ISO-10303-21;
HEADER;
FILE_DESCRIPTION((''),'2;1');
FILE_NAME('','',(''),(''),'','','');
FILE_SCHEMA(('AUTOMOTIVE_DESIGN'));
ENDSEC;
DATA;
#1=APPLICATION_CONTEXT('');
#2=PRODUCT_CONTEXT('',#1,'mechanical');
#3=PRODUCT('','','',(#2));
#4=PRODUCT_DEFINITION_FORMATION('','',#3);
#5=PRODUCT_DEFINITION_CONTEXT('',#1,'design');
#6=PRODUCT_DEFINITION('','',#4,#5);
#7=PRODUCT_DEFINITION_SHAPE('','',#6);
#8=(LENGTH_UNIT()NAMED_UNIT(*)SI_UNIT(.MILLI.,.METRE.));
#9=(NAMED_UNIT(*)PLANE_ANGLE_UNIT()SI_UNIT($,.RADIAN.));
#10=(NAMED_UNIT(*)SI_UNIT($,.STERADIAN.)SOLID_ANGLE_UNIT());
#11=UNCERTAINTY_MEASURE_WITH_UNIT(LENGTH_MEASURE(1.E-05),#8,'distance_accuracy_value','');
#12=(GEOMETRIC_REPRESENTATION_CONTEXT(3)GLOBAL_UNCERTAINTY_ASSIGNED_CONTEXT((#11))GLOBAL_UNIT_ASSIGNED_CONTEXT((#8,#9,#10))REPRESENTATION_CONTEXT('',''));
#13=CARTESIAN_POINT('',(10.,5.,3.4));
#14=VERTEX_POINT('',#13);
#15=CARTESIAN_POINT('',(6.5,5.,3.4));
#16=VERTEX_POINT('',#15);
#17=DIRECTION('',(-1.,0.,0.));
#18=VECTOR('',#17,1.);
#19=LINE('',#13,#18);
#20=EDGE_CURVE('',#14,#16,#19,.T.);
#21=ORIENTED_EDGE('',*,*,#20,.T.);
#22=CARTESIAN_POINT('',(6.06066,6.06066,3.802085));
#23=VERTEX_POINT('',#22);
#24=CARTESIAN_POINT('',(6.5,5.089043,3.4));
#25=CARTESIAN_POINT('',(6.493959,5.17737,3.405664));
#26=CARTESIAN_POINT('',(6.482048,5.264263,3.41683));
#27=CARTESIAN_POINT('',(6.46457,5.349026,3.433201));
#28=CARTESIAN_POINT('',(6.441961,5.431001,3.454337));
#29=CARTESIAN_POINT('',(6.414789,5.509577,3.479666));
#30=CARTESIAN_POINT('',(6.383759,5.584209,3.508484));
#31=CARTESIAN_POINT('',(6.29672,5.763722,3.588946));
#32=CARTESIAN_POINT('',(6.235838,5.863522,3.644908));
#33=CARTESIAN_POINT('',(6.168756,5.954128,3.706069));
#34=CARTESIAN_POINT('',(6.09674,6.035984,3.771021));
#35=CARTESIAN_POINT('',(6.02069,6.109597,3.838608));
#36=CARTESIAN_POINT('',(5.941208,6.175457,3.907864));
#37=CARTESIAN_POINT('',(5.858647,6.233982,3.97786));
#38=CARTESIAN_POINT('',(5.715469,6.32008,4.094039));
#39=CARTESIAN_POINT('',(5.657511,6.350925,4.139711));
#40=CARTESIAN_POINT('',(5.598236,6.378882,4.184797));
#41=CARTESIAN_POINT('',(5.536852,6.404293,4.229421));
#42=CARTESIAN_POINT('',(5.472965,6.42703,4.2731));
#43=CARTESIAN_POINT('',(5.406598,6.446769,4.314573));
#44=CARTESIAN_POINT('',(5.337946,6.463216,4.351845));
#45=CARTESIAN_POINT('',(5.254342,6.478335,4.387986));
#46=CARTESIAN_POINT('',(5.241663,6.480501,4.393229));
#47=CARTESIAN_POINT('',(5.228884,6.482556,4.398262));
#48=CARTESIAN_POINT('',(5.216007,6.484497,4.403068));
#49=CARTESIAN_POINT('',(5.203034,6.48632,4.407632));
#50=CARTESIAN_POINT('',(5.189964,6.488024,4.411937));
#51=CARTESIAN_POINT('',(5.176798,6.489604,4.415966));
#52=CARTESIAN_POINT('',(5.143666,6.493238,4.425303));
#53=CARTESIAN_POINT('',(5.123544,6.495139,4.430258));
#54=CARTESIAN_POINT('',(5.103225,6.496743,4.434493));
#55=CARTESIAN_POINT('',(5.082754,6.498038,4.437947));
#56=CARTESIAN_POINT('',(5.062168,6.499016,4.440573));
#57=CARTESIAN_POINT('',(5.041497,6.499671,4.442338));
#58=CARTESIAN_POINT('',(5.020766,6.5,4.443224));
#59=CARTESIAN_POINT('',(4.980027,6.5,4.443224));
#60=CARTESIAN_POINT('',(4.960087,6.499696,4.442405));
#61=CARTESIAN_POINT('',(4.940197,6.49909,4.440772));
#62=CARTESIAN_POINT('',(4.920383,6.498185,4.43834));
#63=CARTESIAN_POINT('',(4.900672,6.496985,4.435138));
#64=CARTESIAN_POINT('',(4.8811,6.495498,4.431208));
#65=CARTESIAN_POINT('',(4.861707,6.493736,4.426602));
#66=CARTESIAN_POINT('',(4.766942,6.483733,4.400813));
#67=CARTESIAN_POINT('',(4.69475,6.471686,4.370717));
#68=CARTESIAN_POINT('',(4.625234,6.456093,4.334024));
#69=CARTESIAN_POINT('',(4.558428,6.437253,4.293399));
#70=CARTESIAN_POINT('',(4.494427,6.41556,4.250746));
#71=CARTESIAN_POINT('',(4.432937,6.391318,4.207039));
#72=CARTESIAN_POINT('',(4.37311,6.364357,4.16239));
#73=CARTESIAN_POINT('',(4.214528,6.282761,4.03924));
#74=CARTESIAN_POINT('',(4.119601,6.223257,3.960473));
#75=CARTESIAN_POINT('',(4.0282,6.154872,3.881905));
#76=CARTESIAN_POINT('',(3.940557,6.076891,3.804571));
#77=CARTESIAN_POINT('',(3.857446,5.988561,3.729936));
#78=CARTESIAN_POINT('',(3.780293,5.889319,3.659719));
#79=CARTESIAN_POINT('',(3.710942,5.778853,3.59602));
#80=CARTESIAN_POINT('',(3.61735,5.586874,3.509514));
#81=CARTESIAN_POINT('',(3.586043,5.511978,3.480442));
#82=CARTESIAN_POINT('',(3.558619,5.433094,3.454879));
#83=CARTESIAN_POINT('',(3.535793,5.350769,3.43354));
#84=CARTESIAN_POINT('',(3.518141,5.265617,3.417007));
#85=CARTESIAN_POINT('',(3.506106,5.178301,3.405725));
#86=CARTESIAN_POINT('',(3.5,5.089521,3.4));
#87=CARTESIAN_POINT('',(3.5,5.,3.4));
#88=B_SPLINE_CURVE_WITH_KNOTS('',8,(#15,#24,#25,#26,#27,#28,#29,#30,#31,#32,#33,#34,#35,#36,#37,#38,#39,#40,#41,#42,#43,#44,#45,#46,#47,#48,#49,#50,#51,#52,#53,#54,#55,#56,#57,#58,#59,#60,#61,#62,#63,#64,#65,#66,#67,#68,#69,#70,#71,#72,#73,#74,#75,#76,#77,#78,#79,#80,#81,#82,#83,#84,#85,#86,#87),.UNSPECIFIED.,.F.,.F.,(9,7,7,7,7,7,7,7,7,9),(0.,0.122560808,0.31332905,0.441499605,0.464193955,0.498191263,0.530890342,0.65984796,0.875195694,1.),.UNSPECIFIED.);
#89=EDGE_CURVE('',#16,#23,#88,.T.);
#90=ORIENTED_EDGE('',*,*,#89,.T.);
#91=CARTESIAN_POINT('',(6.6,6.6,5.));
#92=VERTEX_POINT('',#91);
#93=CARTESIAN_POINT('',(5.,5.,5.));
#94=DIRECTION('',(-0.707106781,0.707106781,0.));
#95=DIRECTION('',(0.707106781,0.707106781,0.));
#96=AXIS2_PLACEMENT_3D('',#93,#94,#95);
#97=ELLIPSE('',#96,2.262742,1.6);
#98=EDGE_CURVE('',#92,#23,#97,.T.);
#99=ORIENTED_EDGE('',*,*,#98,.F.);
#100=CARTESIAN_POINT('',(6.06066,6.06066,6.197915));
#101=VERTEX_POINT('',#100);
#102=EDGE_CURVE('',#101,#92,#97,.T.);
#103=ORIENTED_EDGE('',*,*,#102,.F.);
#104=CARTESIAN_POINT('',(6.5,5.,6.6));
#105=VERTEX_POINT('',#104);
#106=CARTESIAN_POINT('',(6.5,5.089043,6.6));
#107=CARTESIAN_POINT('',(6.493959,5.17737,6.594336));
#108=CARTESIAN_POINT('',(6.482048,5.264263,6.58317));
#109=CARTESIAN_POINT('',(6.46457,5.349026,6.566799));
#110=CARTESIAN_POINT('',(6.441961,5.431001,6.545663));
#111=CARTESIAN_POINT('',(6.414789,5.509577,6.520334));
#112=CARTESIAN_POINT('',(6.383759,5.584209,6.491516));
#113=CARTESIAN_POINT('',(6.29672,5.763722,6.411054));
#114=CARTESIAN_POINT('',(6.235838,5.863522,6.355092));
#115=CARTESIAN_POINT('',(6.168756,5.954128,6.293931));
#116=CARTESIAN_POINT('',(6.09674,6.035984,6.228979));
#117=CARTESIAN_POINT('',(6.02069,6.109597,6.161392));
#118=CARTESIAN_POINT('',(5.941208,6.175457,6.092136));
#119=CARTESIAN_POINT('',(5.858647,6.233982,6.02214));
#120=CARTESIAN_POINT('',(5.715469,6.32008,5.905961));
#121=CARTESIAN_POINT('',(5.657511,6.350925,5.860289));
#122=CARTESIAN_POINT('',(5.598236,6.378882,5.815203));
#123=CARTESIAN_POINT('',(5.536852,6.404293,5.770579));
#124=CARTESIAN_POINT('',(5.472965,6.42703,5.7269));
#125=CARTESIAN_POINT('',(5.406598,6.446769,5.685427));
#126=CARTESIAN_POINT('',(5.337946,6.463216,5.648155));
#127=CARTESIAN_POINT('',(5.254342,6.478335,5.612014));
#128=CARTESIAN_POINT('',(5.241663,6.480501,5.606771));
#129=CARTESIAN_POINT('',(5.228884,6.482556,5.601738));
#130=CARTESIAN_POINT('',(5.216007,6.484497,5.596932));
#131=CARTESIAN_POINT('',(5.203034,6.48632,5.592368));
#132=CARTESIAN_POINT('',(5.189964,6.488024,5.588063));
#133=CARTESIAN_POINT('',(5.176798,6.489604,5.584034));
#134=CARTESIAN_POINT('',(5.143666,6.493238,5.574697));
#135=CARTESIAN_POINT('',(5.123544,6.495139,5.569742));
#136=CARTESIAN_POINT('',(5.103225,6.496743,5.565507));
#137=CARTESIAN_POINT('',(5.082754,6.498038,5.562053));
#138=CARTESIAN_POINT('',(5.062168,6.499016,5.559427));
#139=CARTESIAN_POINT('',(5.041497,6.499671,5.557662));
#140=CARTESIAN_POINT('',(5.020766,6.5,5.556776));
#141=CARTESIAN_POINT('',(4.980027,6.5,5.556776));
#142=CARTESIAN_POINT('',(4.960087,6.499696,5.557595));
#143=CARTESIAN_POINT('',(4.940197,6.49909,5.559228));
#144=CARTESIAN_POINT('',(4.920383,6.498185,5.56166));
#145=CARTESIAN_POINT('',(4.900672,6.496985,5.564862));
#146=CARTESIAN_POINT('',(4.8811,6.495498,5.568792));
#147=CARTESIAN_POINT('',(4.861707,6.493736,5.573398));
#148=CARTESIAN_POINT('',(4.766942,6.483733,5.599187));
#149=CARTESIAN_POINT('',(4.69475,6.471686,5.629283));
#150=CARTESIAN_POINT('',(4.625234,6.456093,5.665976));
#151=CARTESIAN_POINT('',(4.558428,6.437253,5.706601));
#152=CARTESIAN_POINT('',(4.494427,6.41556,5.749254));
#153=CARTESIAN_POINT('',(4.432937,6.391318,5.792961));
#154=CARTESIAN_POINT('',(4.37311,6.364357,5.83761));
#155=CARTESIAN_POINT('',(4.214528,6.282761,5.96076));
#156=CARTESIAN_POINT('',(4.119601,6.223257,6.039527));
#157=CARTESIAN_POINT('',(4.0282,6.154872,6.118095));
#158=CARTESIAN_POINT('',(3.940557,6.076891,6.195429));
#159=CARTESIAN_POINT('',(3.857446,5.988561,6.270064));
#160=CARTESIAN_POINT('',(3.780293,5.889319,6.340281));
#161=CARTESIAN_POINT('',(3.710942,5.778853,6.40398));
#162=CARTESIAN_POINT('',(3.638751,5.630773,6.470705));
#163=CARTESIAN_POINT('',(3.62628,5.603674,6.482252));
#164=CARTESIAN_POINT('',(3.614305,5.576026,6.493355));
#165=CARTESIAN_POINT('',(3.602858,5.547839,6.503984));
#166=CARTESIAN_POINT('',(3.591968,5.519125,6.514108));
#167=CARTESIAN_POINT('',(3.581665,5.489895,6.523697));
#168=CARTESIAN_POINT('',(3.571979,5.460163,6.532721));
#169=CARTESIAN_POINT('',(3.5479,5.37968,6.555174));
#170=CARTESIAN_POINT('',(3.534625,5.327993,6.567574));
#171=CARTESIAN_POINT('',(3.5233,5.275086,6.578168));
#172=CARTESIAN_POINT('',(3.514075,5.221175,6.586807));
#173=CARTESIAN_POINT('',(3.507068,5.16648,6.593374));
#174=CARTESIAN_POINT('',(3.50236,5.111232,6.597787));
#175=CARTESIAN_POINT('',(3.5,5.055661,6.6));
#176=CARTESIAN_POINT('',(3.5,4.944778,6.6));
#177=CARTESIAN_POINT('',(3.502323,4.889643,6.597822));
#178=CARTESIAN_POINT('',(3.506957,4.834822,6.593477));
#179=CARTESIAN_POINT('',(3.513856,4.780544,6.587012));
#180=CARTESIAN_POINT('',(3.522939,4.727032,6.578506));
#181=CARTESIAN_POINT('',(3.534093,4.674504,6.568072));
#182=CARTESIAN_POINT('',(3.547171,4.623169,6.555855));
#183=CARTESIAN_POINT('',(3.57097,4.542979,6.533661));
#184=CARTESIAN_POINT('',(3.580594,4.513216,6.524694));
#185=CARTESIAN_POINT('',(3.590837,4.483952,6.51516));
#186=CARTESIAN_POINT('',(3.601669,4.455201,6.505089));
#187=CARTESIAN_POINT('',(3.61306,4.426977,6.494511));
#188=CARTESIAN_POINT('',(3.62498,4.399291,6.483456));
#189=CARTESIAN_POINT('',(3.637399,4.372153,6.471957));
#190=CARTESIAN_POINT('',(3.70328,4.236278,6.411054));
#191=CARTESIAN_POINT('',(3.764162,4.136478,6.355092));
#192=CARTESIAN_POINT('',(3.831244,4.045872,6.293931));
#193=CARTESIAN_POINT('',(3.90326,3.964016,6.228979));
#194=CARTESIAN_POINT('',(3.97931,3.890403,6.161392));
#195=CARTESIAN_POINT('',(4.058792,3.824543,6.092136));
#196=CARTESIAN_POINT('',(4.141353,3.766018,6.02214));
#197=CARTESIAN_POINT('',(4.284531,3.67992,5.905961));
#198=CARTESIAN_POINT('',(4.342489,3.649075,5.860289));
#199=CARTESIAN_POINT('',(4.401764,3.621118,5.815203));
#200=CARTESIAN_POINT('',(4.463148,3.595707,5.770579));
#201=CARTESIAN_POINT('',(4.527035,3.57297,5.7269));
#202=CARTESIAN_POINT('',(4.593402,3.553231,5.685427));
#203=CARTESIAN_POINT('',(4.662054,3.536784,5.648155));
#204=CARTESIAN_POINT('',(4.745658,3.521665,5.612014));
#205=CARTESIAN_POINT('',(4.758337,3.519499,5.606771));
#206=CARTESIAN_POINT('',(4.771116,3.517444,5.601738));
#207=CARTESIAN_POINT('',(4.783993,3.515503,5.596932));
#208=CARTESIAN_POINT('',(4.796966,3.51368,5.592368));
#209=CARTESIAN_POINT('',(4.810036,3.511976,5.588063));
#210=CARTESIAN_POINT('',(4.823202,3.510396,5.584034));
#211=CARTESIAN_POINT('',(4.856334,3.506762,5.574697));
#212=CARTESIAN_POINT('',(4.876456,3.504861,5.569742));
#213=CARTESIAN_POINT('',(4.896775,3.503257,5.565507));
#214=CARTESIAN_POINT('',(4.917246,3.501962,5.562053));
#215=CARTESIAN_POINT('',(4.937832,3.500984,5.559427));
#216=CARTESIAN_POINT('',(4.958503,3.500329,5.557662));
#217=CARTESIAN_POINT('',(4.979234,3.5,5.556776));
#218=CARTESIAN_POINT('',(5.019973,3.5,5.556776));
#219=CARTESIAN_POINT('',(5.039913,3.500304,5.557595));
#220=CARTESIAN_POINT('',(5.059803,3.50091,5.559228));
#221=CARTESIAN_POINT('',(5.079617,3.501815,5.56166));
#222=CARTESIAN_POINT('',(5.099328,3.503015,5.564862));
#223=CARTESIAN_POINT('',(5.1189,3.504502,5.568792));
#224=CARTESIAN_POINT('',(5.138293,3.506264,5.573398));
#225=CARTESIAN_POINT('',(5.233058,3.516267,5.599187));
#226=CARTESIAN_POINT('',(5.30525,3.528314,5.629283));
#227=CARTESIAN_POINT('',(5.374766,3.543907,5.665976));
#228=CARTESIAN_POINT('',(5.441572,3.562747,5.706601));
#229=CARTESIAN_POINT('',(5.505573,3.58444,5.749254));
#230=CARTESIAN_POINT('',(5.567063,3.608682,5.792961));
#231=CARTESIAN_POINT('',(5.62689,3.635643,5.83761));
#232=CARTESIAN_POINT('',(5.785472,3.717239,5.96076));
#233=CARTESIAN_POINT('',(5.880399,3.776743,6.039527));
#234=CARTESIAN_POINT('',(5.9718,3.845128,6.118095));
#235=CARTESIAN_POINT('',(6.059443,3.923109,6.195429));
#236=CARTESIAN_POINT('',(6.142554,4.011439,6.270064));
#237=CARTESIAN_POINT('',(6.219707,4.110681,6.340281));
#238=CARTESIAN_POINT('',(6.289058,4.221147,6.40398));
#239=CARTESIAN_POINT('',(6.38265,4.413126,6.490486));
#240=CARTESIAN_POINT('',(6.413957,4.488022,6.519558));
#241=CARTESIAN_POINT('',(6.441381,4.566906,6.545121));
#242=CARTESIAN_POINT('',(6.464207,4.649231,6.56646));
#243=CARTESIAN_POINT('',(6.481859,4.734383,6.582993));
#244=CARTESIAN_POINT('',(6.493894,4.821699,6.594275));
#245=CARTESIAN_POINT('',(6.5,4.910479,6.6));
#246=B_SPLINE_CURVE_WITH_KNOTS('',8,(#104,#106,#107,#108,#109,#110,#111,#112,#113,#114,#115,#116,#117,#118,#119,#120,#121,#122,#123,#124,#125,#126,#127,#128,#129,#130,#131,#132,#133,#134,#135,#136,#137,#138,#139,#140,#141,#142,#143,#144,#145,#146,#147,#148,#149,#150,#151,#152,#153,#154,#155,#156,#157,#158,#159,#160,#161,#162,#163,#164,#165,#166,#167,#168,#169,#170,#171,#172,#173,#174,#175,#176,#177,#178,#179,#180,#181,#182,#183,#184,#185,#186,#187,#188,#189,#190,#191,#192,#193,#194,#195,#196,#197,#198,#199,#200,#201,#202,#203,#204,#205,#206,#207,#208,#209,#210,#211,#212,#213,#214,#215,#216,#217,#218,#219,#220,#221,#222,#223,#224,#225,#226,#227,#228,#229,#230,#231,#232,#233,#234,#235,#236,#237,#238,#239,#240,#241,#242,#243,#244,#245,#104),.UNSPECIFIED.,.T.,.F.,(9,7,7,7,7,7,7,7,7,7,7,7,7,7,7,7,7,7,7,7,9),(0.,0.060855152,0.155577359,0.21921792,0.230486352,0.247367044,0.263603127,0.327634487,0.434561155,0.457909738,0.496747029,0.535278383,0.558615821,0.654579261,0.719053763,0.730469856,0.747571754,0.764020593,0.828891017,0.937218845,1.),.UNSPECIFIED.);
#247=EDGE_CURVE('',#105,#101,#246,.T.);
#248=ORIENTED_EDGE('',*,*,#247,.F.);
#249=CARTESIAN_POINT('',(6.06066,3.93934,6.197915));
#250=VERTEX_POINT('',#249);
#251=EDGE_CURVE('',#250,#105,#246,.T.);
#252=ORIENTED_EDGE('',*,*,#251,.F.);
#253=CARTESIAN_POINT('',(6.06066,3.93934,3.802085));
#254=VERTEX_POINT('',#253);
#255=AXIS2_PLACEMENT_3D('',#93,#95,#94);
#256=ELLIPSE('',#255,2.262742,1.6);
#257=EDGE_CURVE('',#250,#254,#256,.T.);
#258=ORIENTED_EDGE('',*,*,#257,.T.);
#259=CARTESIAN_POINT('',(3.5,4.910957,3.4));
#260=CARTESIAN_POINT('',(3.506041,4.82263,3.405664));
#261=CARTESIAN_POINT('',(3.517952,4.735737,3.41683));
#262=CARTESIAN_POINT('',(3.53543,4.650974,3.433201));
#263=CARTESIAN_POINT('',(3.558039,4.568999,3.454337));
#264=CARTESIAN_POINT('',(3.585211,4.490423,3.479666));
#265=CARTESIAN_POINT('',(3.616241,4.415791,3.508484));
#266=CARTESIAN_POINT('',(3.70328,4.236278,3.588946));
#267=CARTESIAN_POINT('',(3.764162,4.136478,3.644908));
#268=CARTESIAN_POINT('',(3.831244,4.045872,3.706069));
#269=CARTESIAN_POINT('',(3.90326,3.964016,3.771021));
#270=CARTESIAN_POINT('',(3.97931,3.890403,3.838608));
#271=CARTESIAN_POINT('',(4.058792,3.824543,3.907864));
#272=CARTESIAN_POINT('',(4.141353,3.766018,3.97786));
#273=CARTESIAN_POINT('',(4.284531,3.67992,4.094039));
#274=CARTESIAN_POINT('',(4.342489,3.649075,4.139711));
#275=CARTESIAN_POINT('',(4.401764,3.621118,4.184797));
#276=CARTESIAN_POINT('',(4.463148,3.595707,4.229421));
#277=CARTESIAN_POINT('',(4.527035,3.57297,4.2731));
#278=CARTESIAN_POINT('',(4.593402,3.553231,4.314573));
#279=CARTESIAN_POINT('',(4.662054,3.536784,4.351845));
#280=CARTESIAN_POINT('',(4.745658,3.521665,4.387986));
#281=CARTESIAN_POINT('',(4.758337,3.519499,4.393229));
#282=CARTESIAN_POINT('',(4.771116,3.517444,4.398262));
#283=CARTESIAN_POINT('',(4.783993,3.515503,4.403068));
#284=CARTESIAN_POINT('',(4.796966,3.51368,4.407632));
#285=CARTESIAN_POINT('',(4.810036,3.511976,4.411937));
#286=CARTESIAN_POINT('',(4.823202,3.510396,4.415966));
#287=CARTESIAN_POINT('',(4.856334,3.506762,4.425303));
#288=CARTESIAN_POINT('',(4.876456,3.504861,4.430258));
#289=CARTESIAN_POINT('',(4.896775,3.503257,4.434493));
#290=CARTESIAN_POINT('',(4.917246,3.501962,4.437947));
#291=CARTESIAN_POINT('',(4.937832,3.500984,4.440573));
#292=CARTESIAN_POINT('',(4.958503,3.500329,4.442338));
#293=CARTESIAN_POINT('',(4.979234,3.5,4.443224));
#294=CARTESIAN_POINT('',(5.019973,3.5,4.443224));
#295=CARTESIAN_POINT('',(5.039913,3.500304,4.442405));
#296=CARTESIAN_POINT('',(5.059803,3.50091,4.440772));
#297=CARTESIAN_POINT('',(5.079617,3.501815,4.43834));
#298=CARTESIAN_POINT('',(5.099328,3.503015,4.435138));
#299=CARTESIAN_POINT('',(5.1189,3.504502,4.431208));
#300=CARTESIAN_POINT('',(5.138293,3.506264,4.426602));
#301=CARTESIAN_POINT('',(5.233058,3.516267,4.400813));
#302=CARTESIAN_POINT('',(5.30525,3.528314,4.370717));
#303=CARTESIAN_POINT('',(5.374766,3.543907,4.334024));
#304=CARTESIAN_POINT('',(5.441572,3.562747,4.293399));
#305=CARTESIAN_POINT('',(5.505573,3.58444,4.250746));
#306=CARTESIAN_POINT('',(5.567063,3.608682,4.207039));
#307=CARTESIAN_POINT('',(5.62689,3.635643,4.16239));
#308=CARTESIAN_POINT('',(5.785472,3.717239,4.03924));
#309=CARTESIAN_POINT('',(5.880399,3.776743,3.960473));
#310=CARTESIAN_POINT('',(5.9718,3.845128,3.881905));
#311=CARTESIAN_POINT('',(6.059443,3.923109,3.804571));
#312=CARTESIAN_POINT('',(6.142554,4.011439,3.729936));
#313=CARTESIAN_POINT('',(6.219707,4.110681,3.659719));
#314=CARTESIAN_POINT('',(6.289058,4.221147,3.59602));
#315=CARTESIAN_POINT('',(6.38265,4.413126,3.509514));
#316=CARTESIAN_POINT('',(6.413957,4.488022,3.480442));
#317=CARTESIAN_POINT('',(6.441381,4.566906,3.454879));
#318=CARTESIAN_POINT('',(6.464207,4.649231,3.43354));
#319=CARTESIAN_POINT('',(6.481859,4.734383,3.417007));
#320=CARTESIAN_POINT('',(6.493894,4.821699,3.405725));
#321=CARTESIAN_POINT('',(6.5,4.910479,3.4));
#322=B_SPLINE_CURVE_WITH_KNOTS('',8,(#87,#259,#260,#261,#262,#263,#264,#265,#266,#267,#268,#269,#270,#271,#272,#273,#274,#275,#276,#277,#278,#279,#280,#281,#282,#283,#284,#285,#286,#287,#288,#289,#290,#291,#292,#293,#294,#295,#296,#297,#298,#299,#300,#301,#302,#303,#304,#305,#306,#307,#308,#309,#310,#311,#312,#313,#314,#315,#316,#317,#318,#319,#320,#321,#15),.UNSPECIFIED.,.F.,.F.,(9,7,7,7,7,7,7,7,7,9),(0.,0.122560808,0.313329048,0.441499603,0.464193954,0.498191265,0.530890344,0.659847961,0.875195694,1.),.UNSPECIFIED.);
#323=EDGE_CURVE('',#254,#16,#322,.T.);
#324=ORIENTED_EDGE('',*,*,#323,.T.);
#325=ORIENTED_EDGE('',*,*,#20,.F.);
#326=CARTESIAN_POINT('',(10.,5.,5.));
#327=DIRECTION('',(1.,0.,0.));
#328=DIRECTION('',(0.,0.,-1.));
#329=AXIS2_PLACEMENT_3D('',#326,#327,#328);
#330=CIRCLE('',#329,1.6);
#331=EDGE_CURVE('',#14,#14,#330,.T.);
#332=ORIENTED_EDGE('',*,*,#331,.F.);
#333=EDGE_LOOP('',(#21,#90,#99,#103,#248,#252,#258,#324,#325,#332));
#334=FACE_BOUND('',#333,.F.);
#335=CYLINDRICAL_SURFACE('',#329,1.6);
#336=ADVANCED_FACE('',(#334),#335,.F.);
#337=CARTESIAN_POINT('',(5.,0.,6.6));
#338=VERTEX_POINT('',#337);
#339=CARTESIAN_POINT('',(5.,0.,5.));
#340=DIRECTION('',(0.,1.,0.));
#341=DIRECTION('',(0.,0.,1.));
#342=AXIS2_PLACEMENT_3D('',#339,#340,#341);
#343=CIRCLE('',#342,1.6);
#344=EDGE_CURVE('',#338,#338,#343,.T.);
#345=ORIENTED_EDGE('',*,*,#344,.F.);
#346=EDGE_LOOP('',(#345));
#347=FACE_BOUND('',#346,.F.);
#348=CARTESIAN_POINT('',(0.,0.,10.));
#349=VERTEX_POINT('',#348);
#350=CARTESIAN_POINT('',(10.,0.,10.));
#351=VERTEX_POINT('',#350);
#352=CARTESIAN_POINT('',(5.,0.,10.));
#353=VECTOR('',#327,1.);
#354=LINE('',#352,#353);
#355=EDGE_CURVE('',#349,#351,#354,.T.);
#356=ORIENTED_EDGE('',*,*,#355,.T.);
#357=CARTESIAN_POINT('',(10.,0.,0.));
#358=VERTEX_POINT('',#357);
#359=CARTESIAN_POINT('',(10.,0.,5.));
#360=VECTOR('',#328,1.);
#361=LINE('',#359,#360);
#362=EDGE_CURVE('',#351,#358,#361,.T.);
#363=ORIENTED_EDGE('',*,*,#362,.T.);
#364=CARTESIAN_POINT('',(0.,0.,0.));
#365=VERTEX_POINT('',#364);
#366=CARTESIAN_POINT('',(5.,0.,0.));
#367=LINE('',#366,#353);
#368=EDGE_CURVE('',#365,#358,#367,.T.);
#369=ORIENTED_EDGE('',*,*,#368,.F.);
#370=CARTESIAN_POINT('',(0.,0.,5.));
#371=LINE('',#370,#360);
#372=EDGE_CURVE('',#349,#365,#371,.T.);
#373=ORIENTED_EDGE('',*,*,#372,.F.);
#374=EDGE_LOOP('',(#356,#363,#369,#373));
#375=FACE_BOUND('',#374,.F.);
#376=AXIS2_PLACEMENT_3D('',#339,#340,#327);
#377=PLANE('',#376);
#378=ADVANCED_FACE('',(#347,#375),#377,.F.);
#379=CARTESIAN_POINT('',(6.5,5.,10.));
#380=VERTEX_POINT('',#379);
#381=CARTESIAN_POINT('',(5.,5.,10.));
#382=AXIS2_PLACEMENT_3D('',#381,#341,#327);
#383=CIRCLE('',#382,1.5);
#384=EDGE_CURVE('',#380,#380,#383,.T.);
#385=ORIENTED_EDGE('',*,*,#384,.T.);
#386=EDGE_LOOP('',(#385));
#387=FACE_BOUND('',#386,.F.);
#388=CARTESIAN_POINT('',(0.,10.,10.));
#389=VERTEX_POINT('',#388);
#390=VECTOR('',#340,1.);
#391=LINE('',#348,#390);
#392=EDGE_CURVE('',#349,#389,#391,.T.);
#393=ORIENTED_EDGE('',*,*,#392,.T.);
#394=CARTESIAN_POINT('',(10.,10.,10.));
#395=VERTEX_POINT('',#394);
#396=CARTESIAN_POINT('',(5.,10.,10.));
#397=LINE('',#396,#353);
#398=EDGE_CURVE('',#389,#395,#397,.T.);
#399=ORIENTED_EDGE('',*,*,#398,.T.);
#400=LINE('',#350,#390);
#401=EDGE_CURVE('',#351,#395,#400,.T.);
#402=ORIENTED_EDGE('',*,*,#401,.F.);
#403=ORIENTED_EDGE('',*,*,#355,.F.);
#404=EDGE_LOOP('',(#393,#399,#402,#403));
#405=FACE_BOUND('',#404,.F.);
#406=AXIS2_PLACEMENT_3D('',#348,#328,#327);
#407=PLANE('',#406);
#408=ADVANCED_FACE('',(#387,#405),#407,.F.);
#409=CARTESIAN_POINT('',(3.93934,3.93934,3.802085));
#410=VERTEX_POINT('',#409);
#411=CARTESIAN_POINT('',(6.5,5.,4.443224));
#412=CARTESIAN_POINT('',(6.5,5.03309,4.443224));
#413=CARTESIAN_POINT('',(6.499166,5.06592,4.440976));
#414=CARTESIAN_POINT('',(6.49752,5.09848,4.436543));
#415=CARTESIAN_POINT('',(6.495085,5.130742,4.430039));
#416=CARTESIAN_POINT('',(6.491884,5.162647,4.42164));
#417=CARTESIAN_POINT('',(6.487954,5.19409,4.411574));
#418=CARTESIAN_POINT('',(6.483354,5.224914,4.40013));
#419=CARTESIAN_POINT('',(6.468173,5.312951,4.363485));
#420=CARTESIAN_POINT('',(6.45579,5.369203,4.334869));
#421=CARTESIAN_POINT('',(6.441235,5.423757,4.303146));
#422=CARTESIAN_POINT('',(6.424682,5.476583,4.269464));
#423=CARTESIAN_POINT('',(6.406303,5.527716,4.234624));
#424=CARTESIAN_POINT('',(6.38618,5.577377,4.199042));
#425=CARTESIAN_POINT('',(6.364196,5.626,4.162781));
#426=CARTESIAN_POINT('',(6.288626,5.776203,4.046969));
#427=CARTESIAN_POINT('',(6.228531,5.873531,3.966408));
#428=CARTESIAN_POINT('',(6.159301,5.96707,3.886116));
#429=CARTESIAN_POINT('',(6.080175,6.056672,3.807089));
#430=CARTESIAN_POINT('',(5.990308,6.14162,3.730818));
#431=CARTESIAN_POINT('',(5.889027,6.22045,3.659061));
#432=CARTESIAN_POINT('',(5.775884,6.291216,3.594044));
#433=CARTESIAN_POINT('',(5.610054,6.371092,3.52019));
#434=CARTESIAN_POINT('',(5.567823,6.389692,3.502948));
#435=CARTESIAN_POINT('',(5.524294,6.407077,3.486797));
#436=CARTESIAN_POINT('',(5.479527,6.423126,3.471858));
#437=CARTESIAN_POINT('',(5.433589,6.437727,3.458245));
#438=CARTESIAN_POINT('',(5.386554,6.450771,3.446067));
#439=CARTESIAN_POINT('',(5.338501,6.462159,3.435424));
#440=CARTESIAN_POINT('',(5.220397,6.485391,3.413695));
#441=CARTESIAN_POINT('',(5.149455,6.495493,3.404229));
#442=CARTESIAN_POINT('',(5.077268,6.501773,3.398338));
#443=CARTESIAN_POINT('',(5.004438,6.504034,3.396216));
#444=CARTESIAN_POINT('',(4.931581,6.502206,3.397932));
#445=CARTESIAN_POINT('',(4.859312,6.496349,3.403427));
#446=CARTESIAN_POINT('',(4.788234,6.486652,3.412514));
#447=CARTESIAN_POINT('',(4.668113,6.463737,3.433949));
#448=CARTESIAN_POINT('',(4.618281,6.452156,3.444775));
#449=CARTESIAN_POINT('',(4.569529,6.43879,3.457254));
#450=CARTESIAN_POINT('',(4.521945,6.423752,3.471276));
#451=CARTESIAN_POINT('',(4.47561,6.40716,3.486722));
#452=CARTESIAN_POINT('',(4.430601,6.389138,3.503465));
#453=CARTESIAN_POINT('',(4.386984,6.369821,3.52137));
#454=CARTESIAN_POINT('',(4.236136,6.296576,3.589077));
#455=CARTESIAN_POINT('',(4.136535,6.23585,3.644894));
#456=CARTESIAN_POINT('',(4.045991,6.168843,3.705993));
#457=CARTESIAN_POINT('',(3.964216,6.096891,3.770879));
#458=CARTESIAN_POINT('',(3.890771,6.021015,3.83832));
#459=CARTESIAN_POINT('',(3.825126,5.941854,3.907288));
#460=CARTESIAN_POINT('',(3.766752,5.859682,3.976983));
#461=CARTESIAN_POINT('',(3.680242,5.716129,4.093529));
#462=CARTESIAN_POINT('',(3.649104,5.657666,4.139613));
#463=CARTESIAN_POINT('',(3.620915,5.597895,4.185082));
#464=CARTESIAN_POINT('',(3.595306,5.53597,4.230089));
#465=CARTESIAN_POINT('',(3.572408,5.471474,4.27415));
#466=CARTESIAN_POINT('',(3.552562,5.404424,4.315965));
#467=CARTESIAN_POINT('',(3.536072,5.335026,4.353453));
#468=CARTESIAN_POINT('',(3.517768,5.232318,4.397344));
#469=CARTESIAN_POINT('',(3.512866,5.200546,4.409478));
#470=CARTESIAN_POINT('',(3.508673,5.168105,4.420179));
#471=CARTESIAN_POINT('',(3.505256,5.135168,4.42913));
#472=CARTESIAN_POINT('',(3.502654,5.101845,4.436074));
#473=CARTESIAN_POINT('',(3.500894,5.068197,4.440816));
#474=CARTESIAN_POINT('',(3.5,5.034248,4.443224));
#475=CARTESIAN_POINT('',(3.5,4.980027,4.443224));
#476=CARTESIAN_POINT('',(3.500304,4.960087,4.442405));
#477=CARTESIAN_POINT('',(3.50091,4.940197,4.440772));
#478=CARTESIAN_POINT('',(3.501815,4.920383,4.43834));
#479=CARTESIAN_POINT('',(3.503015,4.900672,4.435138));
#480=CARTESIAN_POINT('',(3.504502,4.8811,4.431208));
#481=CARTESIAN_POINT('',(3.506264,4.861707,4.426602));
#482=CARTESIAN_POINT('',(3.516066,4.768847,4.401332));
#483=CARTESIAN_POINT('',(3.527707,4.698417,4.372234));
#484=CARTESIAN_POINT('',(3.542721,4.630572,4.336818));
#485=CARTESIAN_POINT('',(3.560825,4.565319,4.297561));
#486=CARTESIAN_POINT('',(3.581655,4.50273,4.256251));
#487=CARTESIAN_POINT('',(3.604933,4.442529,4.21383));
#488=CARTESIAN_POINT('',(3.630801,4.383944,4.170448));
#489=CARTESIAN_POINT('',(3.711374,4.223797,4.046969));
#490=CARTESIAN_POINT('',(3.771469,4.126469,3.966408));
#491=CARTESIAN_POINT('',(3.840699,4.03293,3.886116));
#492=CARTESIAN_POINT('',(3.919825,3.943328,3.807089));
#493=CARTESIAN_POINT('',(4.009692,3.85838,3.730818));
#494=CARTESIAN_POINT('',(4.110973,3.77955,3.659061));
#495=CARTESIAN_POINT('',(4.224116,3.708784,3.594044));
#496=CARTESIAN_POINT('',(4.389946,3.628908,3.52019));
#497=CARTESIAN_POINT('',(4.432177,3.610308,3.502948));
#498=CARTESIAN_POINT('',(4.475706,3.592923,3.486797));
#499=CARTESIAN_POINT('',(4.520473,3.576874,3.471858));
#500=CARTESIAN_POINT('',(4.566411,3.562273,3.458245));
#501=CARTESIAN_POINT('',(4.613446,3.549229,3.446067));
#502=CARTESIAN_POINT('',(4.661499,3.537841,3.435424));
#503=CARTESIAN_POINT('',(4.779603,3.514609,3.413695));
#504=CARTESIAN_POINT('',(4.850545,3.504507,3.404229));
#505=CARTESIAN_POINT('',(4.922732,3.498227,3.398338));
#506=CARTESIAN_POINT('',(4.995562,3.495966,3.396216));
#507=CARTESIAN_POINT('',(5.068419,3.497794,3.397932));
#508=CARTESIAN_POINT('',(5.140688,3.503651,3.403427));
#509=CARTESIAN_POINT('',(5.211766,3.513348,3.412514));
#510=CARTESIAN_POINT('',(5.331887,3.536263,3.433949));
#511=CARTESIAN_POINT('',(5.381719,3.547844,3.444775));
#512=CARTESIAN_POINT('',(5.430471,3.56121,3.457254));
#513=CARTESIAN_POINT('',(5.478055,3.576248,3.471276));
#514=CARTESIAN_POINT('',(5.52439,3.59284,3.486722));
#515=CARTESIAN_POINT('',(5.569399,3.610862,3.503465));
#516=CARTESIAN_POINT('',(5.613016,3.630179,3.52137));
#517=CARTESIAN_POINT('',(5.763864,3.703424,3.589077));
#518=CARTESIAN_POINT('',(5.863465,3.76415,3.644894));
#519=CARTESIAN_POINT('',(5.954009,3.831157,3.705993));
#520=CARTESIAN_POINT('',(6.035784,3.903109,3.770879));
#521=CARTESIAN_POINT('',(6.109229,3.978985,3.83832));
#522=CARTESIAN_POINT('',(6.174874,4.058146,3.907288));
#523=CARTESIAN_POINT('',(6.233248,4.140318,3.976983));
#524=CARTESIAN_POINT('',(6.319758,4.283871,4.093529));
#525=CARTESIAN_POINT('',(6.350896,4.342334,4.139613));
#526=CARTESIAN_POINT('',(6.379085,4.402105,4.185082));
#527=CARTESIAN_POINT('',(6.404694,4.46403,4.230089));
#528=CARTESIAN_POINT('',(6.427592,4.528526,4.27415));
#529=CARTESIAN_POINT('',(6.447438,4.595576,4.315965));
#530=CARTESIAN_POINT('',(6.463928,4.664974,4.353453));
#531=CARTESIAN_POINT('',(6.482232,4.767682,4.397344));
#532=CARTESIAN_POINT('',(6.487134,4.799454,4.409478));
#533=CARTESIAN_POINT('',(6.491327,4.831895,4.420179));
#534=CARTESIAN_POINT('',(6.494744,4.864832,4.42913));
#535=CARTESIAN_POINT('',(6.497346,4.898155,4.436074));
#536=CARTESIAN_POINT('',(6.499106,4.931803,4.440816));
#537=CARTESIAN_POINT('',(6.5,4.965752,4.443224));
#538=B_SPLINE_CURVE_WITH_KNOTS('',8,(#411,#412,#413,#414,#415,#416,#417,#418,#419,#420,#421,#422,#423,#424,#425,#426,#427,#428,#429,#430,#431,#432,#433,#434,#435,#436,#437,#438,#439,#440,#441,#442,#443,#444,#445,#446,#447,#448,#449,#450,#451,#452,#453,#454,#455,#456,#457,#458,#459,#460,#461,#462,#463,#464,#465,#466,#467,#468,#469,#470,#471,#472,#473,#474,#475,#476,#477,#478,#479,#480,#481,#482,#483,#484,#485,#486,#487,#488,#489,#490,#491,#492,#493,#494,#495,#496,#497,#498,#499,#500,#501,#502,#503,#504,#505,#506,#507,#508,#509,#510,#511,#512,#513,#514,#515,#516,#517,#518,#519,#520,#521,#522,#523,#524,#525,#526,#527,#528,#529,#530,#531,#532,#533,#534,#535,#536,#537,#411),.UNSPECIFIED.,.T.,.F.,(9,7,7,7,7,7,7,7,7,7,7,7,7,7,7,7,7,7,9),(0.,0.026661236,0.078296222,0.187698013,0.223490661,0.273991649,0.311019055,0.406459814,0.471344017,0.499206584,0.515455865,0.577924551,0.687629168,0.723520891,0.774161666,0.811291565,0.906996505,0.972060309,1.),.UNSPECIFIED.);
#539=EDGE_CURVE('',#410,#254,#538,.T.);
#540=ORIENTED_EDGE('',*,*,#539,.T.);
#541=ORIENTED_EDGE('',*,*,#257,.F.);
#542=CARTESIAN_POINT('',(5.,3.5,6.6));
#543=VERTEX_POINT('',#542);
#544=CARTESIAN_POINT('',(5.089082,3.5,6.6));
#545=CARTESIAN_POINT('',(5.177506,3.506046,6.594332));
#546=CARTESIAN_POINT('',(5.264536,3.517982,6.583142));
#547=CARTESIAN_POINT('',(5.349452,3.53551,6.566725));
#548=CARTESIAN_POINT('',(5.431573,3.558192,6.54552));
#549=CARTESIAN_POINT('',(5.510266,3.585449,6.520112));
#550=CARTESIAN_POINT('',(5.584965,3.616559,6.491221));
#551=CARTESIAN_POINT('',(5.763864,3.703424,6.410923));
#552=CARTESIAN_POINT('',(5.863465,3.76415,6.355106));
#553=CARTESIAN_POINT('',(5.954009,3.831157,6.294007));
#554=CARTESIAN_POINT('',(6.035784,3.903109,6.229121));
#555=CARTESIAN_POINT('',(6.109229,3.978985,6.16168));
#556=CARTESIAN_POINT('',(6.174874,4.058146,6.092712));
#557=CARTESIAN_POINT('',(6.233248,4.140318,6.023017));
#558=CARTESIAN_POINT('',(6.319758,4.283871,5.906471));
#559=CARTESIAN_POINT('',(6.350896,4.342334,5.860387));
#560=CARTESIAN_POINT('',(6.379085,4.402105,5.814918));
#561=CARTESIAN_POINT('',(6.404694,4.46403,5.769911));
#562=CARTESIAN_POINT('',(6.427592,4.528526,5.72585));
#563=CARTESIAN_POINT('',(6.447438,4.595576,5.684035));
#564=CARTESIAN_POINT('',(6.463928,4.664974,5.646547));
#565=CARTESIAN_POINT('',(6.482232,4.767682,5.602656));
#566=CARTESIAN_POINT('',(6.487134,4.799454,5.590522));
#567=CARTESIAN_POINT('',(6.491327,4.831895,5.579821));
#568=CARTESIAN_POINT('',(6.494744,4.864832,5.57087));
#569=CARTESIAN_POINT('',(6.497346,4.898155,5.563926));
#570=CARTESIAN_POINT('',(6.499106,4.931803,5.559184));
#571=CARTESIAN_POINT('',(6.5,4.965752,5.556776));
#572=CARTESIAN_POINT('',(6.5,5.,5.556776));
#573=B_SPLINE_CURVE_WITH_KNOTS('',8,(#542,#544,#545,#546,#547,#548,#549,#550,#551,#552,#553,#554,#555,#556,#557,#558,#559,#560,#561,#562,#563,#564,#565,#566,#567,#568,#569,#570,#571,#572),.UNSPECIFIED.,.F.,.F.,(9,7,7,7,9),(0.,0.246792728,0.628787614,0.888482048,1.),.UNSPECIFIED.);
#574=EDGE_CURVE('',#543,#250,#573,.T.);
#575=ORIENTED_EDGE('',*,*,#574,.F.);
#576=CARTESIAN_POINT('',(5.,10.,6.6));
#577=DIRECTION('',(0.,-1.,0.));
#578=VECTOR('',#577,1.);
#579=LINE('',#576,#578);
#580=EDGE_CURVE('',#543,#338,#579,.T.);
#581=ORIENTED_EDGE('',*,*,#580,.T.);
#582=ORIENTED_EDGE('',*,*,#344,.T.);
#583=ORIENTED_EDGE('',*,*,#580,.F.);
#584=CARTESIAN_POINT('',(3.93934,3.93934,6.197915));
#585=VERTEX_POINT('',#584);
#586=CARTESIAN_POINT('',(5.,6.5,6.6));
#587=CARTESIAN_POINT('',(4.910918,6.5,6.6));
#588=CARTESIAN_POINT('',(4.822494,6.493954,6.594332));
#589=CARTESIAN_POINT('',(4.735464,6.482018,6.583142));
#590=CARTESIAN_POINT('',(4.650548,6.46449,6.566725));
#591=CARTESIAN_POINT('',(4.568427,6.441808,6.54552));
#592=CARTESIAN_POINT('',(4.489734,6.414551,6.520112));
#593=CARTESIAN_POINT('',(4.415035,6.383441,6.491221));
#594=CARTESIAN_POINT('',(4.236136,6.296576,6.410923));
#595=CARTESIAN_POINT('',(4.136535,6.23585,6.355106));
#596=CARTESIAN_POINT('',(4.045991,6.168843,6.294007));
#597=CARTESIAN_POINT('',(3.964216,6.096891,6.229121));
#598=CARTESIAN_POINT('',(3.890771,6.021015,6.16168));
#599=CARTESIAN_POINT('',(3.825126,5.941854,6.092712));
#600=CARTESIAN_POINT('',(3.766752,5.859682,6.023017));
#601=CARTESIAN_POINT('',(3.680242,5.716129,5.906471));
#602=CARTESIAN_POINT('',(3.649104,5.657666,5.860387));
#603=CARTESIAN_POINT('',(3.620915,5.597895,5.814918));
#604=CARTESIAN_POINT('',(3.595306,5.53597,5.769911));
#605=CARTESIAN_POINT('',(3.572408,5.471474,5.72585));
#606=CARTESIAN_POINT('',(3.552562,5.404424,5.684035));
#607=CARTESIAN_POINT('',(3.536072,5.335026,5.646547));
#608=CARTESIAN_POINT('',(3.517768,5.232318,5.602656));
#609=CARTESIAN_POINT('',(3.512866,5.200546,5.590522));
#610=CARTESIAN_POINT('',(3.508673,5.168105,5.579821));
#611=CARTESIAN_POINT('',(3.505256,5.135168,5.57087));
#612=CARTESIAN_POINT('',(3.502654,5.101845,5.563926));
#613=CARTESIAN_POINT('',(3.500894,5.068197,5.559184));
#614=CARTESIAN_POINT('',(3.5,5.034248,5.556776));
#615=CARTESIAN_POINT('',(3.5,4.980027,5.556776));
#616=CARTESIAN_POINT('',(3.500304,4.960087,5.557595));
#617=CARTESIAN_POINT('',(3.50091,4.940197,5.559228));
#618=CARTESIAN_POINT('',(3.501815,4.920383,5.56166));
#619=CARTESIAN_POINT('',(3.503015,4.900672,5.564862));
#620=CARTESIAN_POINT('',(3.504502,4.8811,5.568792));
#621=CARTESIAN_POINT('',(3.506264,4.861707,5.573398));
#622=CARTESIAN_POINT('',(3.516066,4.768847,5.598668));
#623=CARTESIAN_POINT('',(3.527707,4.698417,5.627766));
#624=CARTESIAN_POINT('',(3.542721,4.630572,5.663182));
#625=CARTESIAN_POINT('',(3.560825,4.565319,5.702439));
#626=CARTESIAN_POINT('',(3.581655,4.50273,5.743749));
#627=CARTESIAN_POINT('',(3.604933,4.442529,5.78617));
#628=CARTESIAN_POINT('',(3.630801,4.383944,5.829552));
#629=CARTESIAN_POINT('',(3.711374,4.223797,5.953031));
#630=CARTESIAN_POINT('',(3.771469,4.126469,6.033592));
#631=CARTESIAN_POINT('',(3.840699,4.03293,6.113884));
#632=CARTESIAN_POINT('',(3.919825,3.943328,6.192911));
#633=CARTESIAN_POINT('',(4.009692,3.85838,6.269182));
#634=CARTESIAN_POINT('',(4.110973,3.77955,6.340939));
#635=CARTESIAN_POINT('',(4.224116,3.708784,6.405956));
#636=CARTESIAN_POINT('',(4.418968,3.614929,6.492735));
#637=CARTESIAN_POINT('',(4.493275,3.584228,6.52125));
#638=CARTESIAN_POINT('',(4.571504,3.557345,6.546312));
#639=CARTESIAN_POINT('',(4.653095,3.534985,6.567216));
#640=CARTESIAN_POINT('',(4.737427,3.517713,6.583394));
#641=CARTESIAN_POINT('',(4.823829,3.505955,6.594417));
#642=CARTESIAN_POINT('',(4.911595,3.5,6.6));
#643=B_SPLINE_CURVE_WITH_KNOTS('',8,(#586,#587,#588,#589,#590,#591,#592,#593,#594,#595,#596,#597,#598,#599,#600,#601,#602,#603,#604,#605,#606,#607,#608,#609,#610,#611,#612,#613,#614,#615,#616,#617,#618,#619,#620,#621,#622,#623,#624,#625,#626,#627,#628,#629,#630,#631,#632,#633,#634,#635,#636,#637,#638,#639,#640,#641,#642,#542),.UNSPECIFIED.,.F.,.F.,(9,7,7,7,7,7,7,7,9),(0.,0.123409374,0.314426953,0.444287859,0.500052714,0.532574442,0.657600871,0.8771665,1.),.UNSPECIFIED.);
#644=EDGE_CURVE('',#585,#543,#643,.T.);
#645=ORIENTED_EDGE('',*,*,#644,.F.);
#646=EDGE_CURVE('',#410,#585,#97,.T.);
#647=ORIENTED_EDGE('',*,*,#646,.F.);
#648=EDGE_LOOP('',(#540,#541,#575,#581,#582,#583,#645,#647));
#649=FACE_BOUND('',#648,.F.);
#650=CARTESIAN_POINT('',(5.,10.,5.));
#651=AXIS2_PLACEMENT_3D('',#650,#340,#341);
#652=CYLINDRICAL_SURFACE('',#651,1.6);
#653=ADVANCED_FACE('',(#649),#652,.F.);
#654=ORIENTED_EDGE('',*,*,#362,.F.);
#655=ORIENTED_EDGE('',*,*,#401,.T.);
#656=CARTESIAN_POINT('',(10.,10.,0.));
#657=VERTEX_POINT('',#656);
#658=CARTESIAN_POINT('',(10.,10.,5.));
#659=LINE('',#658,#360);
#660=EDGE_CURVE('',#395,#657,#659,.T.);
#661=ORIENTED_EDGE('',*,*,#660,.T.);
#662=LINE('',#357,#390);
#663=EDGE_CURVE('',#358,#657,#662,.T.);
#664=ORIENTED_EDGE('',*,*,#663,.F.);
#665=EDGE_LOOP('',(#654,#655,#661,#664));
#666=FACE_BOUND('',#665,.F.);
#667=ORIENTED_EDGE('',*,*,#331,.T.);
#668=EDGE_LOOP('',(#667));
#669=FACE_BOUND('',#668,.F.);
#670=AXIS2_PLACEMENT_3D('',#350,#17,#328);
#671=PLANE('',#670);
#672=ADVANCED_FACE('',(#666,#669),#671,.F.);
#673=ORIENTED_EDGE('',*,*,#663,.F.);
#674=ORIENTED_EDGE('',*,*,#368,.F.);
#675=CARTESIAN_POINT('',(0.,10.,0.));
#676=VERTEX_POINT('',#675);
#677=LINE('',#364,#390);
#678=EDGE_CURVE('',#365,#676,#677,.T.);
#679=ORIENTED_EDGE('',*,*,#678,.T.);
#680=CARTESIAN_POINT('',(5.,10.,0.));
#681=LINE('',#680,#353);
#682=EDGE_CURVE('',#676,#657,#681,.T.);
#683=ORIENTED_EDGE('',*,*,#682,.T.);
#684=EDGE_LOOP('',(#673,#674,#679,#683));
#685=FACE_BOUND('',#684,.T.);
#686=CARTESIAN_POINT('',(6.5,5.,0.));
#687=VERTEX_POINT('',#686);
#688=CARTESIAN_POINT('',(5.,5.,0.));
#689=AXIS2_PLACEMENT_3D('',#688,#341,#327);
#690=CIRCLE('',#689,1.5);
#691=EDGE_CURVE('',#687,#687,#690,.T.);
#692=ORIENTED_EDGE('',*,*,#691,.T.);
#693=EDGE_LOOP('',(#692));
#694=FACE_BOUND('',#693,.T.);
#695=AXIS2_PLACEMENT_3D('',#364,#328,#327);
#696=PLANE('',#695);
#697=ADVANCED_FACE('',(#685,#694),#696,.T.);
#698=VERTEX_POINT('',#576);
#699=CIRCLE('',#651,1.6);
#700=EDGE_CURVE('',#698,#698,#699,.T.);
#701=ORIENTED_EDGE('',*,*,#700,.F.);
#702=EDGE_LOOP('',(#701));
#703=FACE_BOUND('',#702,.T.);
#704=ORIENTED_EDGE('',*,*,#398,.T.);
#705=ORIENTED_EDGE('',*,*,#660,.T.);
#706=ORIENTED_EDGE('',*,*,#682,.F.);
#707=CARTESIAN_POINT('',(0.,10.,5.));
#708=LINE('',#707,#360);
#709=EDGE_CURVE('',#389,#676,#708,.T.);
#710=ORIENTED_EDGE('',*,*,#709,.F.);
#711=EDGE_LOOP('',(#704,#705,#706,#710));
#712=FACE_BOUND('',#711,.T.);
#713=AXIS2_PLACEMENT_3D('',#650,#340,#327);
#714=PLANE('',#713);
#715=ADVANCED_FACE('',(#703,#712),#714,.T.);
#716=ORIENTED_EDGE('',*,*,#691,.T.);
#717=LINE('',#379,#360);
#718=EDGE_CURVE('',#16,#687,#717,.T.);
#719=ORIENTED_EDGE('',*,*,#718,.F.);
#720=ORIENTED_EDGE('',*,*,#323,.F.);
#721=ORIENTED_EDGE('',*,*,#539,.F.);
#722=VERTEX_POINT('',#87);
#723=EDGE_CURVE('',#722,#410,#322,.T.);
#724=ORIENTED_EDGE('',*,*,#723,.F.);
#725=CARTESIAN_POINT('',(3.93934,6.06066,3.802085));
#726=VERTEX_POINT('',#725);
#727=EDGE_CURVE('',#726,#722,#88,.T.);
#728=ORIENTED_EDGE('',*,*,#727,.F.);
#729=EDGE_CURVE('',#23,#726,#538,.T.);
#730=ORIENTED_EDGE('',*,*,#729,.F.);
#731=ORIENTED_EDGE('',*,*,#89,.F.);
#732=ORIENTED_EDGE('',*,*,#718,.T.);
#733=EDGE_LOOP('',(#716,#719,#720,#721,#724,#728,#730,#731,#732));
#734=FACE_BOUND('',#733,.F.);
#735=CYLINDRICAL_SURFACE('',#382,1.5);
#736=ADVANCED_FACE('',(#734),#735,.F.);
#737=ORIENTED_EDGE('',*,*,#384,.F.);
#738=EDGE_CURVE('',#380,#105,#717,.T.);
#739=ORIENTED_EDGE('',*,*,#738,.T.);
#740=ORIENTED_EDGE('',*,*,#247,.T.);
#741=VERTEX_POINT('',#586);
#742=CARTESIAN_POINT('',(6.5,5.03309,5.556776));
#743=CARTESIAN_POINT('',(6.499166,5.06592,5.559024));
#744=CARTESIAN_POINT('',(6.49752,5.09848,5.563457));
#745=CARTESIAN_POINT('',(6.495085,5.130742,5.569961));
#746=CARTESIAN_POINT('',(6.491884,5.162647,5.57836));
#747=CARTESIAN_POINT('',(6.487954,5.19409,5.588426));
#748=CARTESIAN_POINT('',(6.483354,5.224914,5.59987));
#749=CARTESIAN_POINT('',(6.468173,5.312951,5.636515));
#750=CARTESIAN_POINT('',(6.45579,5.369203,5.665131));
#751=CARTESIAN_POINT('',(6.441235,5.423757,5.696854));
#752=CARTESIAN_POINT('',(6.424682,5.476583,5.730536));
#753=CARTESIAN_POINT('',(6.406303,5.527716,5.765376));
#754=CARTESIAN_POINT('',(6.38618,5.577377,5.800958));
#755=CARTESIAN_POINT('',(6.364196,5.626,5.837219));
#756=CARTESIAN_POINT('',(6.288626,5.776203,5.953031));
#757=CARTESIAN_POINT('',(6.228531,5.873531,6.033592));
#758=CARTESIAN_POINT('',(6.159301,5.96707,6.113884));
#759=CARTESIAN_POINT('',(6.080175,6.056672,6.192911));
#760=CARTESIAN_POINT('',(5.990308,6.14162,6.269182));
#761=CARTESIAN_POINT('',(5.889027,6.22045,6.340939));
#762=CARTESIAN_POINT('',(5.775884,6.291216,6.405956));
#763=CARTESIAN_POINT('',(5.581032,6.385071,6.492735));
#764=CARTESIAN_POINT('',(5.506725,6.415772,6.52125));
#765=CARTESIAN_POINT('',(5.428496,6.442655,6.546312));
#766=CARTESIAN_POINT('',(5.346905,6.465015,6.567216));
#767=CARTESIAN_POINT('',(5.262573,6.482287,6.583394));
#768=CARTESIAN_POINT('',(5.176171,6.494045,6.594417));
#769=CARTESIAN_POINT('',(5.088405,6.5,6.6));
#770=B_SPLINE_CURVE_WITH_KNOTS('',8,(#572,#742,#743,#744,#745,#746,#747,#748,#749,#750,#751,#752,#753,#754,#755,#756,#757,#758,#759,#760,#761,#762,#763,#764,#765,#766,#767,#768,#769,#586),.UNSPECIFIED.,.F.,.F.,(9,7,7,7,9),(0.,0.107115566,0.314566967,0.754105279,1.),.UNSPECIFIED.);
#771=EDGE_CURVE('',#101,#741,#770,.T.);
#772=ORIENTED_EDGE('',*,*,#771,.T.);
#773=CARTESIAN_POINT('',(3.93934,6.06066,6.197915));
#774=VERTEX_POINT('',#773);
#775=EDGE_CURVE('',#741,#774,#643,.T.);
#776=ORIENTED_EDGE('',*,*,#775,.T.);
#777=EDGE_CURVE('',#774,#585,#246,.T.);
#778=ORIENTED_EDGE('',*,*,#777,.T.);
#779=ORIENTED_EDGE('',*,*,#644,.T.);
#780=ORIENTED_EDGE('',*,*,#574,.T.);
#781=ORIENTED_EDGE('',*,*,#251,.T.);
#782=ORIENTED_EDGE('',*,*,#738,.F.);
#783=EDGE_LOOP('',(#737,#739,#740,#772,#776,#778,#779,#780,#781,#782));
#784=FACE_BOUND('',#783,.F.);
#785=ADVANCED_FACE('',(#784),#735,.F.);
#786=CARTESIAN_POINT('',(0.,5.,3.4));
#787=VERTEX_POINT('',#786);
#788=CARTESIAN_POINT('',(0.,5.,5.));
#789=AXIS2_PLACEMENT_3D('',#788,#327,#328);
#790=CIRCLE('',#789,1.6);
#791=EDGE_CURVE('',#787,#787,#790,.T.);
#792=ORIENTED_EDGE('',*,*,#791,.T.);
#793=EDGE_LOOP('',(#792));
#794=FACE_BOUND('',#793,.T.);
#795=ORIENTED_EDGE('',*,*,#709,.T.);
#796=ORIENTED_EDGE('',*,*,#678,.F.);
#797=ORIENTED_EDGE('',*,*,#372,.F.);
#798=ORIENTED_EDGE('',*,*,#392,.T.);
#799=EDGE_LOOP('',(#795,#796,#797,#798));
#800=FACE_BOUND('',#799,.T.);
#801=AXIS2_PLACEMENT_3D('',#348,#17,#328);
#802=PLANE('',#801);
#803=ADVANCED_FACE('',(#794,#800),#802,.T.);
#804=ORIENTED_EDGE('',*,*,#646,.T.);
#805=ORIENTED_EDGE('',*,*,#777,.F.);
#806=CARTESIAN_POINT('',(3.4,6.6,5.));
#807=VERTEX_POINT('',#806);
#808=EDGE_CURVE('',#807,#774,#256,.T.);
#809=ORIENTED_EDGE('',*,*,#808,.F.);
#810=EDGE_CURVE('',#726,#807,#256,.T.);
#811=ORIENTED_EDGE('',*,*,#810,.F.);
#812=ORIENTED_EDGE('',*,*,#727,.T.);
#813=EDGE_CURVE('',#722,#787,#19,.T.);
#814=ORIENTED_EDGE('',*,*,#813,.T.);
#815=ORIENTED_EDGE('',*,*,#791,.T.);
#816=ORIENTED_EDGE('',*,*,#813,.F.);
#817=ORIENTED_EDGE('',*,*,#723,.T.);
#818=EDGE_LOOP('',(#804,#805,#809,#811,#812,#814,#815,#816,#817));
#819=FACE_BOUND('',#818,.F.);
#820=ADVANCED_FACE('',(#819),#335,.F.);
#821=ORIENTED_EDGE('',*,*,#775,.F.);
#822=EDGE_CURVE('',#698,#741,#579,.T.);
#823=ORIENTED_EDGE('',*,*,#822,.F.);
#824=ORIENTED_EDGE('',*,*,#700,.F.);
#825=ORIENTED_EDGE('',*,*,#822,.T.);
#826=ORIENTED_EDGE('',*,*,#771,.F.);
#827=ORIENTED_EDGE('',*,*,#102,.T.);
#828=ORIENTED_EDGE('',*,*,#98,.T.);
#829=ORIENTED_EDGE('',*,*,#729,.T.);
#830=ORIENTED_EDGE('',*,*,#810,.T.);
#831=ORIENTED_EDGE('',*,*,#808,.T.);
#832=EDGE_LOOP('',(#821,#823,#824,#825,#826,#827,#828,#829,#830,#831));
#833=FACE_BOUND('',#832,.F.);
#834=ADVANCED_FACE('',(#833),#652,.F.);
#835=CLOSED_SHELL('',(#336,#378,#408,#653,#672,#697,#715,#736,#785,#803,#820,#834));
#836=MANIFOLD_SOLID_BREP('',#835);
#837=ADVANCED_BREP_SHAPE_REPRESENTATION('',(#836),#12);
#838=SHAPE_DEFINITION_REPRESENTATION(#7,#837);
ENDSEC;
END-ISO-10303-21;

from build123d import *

# Parameters (mm, degrees)
SKETCH_1_W          = 10
SKETCH_1_H          = 10
EXTRUDE_1_DEPTH     = 10
SKETCH_2_R          = 1.5
CUT_EXTRUDE_1_DEPTH = 10
SKETCH_3_R          = 1.6
CUT_EXTRUDE_2_DEPTH = 10
SKETCH_4_R          = 1.6
CUT_EXTRUDE_3_DEPTH = 10


with BuildPart() as part:
    # 草图1 → 凸台-拉伸1 (new body)
    with BuildSketch(Plane(origin=(0, 0, 0), x_dir=(1, 0, 0), z_dir=(0, 1, 0))):
        with Locations((5, -5)):
            Rectangle(SKETCH_1_W, SKETCH_1_H)
    extrude(amount=EXTRUDE_1_DEPTH)

    # 草图2 → 切除-拉伸1 (cut)
    with BuildSketch(Plane.XY.offset(10)):
        with Locations((5, 5)):
            Circle(SKETCH_2_R)
    extrude(amount=-CUT_EXTRUDE_1_DEPTH, mode=Mode.SUBTRACT)

    # 草图3 → 切除-拉伸2 (cut)
    with BuildSketch(Plane(origin=(0, 10, 0), x_dir=(1, 0, 0), z_dir=(0, 1, 0))):
        with Locations(Location((5, -5, 0), (0, 0, 270))):
            Circle(SKETCH_3_R)
    extrude(amount=-CUT_EXTRUDE_2_DEPTH, mode=Mode.SUBTRACT)

    # 草图4 → 切除-拉伸3 (cut)
    with BuildSketch(Plane(origin=(10, 0, 0), x_dir=(0, 0, -1), z_dir=(1, 0, 0))):
        with Locations((-5, 5)):
            Circle(SKETCH_4_R)
    extrude(amount=-CUT_EXTRUDE_3_DEPTH, mode=Mode.SUBTRACT)


solid = part.part
